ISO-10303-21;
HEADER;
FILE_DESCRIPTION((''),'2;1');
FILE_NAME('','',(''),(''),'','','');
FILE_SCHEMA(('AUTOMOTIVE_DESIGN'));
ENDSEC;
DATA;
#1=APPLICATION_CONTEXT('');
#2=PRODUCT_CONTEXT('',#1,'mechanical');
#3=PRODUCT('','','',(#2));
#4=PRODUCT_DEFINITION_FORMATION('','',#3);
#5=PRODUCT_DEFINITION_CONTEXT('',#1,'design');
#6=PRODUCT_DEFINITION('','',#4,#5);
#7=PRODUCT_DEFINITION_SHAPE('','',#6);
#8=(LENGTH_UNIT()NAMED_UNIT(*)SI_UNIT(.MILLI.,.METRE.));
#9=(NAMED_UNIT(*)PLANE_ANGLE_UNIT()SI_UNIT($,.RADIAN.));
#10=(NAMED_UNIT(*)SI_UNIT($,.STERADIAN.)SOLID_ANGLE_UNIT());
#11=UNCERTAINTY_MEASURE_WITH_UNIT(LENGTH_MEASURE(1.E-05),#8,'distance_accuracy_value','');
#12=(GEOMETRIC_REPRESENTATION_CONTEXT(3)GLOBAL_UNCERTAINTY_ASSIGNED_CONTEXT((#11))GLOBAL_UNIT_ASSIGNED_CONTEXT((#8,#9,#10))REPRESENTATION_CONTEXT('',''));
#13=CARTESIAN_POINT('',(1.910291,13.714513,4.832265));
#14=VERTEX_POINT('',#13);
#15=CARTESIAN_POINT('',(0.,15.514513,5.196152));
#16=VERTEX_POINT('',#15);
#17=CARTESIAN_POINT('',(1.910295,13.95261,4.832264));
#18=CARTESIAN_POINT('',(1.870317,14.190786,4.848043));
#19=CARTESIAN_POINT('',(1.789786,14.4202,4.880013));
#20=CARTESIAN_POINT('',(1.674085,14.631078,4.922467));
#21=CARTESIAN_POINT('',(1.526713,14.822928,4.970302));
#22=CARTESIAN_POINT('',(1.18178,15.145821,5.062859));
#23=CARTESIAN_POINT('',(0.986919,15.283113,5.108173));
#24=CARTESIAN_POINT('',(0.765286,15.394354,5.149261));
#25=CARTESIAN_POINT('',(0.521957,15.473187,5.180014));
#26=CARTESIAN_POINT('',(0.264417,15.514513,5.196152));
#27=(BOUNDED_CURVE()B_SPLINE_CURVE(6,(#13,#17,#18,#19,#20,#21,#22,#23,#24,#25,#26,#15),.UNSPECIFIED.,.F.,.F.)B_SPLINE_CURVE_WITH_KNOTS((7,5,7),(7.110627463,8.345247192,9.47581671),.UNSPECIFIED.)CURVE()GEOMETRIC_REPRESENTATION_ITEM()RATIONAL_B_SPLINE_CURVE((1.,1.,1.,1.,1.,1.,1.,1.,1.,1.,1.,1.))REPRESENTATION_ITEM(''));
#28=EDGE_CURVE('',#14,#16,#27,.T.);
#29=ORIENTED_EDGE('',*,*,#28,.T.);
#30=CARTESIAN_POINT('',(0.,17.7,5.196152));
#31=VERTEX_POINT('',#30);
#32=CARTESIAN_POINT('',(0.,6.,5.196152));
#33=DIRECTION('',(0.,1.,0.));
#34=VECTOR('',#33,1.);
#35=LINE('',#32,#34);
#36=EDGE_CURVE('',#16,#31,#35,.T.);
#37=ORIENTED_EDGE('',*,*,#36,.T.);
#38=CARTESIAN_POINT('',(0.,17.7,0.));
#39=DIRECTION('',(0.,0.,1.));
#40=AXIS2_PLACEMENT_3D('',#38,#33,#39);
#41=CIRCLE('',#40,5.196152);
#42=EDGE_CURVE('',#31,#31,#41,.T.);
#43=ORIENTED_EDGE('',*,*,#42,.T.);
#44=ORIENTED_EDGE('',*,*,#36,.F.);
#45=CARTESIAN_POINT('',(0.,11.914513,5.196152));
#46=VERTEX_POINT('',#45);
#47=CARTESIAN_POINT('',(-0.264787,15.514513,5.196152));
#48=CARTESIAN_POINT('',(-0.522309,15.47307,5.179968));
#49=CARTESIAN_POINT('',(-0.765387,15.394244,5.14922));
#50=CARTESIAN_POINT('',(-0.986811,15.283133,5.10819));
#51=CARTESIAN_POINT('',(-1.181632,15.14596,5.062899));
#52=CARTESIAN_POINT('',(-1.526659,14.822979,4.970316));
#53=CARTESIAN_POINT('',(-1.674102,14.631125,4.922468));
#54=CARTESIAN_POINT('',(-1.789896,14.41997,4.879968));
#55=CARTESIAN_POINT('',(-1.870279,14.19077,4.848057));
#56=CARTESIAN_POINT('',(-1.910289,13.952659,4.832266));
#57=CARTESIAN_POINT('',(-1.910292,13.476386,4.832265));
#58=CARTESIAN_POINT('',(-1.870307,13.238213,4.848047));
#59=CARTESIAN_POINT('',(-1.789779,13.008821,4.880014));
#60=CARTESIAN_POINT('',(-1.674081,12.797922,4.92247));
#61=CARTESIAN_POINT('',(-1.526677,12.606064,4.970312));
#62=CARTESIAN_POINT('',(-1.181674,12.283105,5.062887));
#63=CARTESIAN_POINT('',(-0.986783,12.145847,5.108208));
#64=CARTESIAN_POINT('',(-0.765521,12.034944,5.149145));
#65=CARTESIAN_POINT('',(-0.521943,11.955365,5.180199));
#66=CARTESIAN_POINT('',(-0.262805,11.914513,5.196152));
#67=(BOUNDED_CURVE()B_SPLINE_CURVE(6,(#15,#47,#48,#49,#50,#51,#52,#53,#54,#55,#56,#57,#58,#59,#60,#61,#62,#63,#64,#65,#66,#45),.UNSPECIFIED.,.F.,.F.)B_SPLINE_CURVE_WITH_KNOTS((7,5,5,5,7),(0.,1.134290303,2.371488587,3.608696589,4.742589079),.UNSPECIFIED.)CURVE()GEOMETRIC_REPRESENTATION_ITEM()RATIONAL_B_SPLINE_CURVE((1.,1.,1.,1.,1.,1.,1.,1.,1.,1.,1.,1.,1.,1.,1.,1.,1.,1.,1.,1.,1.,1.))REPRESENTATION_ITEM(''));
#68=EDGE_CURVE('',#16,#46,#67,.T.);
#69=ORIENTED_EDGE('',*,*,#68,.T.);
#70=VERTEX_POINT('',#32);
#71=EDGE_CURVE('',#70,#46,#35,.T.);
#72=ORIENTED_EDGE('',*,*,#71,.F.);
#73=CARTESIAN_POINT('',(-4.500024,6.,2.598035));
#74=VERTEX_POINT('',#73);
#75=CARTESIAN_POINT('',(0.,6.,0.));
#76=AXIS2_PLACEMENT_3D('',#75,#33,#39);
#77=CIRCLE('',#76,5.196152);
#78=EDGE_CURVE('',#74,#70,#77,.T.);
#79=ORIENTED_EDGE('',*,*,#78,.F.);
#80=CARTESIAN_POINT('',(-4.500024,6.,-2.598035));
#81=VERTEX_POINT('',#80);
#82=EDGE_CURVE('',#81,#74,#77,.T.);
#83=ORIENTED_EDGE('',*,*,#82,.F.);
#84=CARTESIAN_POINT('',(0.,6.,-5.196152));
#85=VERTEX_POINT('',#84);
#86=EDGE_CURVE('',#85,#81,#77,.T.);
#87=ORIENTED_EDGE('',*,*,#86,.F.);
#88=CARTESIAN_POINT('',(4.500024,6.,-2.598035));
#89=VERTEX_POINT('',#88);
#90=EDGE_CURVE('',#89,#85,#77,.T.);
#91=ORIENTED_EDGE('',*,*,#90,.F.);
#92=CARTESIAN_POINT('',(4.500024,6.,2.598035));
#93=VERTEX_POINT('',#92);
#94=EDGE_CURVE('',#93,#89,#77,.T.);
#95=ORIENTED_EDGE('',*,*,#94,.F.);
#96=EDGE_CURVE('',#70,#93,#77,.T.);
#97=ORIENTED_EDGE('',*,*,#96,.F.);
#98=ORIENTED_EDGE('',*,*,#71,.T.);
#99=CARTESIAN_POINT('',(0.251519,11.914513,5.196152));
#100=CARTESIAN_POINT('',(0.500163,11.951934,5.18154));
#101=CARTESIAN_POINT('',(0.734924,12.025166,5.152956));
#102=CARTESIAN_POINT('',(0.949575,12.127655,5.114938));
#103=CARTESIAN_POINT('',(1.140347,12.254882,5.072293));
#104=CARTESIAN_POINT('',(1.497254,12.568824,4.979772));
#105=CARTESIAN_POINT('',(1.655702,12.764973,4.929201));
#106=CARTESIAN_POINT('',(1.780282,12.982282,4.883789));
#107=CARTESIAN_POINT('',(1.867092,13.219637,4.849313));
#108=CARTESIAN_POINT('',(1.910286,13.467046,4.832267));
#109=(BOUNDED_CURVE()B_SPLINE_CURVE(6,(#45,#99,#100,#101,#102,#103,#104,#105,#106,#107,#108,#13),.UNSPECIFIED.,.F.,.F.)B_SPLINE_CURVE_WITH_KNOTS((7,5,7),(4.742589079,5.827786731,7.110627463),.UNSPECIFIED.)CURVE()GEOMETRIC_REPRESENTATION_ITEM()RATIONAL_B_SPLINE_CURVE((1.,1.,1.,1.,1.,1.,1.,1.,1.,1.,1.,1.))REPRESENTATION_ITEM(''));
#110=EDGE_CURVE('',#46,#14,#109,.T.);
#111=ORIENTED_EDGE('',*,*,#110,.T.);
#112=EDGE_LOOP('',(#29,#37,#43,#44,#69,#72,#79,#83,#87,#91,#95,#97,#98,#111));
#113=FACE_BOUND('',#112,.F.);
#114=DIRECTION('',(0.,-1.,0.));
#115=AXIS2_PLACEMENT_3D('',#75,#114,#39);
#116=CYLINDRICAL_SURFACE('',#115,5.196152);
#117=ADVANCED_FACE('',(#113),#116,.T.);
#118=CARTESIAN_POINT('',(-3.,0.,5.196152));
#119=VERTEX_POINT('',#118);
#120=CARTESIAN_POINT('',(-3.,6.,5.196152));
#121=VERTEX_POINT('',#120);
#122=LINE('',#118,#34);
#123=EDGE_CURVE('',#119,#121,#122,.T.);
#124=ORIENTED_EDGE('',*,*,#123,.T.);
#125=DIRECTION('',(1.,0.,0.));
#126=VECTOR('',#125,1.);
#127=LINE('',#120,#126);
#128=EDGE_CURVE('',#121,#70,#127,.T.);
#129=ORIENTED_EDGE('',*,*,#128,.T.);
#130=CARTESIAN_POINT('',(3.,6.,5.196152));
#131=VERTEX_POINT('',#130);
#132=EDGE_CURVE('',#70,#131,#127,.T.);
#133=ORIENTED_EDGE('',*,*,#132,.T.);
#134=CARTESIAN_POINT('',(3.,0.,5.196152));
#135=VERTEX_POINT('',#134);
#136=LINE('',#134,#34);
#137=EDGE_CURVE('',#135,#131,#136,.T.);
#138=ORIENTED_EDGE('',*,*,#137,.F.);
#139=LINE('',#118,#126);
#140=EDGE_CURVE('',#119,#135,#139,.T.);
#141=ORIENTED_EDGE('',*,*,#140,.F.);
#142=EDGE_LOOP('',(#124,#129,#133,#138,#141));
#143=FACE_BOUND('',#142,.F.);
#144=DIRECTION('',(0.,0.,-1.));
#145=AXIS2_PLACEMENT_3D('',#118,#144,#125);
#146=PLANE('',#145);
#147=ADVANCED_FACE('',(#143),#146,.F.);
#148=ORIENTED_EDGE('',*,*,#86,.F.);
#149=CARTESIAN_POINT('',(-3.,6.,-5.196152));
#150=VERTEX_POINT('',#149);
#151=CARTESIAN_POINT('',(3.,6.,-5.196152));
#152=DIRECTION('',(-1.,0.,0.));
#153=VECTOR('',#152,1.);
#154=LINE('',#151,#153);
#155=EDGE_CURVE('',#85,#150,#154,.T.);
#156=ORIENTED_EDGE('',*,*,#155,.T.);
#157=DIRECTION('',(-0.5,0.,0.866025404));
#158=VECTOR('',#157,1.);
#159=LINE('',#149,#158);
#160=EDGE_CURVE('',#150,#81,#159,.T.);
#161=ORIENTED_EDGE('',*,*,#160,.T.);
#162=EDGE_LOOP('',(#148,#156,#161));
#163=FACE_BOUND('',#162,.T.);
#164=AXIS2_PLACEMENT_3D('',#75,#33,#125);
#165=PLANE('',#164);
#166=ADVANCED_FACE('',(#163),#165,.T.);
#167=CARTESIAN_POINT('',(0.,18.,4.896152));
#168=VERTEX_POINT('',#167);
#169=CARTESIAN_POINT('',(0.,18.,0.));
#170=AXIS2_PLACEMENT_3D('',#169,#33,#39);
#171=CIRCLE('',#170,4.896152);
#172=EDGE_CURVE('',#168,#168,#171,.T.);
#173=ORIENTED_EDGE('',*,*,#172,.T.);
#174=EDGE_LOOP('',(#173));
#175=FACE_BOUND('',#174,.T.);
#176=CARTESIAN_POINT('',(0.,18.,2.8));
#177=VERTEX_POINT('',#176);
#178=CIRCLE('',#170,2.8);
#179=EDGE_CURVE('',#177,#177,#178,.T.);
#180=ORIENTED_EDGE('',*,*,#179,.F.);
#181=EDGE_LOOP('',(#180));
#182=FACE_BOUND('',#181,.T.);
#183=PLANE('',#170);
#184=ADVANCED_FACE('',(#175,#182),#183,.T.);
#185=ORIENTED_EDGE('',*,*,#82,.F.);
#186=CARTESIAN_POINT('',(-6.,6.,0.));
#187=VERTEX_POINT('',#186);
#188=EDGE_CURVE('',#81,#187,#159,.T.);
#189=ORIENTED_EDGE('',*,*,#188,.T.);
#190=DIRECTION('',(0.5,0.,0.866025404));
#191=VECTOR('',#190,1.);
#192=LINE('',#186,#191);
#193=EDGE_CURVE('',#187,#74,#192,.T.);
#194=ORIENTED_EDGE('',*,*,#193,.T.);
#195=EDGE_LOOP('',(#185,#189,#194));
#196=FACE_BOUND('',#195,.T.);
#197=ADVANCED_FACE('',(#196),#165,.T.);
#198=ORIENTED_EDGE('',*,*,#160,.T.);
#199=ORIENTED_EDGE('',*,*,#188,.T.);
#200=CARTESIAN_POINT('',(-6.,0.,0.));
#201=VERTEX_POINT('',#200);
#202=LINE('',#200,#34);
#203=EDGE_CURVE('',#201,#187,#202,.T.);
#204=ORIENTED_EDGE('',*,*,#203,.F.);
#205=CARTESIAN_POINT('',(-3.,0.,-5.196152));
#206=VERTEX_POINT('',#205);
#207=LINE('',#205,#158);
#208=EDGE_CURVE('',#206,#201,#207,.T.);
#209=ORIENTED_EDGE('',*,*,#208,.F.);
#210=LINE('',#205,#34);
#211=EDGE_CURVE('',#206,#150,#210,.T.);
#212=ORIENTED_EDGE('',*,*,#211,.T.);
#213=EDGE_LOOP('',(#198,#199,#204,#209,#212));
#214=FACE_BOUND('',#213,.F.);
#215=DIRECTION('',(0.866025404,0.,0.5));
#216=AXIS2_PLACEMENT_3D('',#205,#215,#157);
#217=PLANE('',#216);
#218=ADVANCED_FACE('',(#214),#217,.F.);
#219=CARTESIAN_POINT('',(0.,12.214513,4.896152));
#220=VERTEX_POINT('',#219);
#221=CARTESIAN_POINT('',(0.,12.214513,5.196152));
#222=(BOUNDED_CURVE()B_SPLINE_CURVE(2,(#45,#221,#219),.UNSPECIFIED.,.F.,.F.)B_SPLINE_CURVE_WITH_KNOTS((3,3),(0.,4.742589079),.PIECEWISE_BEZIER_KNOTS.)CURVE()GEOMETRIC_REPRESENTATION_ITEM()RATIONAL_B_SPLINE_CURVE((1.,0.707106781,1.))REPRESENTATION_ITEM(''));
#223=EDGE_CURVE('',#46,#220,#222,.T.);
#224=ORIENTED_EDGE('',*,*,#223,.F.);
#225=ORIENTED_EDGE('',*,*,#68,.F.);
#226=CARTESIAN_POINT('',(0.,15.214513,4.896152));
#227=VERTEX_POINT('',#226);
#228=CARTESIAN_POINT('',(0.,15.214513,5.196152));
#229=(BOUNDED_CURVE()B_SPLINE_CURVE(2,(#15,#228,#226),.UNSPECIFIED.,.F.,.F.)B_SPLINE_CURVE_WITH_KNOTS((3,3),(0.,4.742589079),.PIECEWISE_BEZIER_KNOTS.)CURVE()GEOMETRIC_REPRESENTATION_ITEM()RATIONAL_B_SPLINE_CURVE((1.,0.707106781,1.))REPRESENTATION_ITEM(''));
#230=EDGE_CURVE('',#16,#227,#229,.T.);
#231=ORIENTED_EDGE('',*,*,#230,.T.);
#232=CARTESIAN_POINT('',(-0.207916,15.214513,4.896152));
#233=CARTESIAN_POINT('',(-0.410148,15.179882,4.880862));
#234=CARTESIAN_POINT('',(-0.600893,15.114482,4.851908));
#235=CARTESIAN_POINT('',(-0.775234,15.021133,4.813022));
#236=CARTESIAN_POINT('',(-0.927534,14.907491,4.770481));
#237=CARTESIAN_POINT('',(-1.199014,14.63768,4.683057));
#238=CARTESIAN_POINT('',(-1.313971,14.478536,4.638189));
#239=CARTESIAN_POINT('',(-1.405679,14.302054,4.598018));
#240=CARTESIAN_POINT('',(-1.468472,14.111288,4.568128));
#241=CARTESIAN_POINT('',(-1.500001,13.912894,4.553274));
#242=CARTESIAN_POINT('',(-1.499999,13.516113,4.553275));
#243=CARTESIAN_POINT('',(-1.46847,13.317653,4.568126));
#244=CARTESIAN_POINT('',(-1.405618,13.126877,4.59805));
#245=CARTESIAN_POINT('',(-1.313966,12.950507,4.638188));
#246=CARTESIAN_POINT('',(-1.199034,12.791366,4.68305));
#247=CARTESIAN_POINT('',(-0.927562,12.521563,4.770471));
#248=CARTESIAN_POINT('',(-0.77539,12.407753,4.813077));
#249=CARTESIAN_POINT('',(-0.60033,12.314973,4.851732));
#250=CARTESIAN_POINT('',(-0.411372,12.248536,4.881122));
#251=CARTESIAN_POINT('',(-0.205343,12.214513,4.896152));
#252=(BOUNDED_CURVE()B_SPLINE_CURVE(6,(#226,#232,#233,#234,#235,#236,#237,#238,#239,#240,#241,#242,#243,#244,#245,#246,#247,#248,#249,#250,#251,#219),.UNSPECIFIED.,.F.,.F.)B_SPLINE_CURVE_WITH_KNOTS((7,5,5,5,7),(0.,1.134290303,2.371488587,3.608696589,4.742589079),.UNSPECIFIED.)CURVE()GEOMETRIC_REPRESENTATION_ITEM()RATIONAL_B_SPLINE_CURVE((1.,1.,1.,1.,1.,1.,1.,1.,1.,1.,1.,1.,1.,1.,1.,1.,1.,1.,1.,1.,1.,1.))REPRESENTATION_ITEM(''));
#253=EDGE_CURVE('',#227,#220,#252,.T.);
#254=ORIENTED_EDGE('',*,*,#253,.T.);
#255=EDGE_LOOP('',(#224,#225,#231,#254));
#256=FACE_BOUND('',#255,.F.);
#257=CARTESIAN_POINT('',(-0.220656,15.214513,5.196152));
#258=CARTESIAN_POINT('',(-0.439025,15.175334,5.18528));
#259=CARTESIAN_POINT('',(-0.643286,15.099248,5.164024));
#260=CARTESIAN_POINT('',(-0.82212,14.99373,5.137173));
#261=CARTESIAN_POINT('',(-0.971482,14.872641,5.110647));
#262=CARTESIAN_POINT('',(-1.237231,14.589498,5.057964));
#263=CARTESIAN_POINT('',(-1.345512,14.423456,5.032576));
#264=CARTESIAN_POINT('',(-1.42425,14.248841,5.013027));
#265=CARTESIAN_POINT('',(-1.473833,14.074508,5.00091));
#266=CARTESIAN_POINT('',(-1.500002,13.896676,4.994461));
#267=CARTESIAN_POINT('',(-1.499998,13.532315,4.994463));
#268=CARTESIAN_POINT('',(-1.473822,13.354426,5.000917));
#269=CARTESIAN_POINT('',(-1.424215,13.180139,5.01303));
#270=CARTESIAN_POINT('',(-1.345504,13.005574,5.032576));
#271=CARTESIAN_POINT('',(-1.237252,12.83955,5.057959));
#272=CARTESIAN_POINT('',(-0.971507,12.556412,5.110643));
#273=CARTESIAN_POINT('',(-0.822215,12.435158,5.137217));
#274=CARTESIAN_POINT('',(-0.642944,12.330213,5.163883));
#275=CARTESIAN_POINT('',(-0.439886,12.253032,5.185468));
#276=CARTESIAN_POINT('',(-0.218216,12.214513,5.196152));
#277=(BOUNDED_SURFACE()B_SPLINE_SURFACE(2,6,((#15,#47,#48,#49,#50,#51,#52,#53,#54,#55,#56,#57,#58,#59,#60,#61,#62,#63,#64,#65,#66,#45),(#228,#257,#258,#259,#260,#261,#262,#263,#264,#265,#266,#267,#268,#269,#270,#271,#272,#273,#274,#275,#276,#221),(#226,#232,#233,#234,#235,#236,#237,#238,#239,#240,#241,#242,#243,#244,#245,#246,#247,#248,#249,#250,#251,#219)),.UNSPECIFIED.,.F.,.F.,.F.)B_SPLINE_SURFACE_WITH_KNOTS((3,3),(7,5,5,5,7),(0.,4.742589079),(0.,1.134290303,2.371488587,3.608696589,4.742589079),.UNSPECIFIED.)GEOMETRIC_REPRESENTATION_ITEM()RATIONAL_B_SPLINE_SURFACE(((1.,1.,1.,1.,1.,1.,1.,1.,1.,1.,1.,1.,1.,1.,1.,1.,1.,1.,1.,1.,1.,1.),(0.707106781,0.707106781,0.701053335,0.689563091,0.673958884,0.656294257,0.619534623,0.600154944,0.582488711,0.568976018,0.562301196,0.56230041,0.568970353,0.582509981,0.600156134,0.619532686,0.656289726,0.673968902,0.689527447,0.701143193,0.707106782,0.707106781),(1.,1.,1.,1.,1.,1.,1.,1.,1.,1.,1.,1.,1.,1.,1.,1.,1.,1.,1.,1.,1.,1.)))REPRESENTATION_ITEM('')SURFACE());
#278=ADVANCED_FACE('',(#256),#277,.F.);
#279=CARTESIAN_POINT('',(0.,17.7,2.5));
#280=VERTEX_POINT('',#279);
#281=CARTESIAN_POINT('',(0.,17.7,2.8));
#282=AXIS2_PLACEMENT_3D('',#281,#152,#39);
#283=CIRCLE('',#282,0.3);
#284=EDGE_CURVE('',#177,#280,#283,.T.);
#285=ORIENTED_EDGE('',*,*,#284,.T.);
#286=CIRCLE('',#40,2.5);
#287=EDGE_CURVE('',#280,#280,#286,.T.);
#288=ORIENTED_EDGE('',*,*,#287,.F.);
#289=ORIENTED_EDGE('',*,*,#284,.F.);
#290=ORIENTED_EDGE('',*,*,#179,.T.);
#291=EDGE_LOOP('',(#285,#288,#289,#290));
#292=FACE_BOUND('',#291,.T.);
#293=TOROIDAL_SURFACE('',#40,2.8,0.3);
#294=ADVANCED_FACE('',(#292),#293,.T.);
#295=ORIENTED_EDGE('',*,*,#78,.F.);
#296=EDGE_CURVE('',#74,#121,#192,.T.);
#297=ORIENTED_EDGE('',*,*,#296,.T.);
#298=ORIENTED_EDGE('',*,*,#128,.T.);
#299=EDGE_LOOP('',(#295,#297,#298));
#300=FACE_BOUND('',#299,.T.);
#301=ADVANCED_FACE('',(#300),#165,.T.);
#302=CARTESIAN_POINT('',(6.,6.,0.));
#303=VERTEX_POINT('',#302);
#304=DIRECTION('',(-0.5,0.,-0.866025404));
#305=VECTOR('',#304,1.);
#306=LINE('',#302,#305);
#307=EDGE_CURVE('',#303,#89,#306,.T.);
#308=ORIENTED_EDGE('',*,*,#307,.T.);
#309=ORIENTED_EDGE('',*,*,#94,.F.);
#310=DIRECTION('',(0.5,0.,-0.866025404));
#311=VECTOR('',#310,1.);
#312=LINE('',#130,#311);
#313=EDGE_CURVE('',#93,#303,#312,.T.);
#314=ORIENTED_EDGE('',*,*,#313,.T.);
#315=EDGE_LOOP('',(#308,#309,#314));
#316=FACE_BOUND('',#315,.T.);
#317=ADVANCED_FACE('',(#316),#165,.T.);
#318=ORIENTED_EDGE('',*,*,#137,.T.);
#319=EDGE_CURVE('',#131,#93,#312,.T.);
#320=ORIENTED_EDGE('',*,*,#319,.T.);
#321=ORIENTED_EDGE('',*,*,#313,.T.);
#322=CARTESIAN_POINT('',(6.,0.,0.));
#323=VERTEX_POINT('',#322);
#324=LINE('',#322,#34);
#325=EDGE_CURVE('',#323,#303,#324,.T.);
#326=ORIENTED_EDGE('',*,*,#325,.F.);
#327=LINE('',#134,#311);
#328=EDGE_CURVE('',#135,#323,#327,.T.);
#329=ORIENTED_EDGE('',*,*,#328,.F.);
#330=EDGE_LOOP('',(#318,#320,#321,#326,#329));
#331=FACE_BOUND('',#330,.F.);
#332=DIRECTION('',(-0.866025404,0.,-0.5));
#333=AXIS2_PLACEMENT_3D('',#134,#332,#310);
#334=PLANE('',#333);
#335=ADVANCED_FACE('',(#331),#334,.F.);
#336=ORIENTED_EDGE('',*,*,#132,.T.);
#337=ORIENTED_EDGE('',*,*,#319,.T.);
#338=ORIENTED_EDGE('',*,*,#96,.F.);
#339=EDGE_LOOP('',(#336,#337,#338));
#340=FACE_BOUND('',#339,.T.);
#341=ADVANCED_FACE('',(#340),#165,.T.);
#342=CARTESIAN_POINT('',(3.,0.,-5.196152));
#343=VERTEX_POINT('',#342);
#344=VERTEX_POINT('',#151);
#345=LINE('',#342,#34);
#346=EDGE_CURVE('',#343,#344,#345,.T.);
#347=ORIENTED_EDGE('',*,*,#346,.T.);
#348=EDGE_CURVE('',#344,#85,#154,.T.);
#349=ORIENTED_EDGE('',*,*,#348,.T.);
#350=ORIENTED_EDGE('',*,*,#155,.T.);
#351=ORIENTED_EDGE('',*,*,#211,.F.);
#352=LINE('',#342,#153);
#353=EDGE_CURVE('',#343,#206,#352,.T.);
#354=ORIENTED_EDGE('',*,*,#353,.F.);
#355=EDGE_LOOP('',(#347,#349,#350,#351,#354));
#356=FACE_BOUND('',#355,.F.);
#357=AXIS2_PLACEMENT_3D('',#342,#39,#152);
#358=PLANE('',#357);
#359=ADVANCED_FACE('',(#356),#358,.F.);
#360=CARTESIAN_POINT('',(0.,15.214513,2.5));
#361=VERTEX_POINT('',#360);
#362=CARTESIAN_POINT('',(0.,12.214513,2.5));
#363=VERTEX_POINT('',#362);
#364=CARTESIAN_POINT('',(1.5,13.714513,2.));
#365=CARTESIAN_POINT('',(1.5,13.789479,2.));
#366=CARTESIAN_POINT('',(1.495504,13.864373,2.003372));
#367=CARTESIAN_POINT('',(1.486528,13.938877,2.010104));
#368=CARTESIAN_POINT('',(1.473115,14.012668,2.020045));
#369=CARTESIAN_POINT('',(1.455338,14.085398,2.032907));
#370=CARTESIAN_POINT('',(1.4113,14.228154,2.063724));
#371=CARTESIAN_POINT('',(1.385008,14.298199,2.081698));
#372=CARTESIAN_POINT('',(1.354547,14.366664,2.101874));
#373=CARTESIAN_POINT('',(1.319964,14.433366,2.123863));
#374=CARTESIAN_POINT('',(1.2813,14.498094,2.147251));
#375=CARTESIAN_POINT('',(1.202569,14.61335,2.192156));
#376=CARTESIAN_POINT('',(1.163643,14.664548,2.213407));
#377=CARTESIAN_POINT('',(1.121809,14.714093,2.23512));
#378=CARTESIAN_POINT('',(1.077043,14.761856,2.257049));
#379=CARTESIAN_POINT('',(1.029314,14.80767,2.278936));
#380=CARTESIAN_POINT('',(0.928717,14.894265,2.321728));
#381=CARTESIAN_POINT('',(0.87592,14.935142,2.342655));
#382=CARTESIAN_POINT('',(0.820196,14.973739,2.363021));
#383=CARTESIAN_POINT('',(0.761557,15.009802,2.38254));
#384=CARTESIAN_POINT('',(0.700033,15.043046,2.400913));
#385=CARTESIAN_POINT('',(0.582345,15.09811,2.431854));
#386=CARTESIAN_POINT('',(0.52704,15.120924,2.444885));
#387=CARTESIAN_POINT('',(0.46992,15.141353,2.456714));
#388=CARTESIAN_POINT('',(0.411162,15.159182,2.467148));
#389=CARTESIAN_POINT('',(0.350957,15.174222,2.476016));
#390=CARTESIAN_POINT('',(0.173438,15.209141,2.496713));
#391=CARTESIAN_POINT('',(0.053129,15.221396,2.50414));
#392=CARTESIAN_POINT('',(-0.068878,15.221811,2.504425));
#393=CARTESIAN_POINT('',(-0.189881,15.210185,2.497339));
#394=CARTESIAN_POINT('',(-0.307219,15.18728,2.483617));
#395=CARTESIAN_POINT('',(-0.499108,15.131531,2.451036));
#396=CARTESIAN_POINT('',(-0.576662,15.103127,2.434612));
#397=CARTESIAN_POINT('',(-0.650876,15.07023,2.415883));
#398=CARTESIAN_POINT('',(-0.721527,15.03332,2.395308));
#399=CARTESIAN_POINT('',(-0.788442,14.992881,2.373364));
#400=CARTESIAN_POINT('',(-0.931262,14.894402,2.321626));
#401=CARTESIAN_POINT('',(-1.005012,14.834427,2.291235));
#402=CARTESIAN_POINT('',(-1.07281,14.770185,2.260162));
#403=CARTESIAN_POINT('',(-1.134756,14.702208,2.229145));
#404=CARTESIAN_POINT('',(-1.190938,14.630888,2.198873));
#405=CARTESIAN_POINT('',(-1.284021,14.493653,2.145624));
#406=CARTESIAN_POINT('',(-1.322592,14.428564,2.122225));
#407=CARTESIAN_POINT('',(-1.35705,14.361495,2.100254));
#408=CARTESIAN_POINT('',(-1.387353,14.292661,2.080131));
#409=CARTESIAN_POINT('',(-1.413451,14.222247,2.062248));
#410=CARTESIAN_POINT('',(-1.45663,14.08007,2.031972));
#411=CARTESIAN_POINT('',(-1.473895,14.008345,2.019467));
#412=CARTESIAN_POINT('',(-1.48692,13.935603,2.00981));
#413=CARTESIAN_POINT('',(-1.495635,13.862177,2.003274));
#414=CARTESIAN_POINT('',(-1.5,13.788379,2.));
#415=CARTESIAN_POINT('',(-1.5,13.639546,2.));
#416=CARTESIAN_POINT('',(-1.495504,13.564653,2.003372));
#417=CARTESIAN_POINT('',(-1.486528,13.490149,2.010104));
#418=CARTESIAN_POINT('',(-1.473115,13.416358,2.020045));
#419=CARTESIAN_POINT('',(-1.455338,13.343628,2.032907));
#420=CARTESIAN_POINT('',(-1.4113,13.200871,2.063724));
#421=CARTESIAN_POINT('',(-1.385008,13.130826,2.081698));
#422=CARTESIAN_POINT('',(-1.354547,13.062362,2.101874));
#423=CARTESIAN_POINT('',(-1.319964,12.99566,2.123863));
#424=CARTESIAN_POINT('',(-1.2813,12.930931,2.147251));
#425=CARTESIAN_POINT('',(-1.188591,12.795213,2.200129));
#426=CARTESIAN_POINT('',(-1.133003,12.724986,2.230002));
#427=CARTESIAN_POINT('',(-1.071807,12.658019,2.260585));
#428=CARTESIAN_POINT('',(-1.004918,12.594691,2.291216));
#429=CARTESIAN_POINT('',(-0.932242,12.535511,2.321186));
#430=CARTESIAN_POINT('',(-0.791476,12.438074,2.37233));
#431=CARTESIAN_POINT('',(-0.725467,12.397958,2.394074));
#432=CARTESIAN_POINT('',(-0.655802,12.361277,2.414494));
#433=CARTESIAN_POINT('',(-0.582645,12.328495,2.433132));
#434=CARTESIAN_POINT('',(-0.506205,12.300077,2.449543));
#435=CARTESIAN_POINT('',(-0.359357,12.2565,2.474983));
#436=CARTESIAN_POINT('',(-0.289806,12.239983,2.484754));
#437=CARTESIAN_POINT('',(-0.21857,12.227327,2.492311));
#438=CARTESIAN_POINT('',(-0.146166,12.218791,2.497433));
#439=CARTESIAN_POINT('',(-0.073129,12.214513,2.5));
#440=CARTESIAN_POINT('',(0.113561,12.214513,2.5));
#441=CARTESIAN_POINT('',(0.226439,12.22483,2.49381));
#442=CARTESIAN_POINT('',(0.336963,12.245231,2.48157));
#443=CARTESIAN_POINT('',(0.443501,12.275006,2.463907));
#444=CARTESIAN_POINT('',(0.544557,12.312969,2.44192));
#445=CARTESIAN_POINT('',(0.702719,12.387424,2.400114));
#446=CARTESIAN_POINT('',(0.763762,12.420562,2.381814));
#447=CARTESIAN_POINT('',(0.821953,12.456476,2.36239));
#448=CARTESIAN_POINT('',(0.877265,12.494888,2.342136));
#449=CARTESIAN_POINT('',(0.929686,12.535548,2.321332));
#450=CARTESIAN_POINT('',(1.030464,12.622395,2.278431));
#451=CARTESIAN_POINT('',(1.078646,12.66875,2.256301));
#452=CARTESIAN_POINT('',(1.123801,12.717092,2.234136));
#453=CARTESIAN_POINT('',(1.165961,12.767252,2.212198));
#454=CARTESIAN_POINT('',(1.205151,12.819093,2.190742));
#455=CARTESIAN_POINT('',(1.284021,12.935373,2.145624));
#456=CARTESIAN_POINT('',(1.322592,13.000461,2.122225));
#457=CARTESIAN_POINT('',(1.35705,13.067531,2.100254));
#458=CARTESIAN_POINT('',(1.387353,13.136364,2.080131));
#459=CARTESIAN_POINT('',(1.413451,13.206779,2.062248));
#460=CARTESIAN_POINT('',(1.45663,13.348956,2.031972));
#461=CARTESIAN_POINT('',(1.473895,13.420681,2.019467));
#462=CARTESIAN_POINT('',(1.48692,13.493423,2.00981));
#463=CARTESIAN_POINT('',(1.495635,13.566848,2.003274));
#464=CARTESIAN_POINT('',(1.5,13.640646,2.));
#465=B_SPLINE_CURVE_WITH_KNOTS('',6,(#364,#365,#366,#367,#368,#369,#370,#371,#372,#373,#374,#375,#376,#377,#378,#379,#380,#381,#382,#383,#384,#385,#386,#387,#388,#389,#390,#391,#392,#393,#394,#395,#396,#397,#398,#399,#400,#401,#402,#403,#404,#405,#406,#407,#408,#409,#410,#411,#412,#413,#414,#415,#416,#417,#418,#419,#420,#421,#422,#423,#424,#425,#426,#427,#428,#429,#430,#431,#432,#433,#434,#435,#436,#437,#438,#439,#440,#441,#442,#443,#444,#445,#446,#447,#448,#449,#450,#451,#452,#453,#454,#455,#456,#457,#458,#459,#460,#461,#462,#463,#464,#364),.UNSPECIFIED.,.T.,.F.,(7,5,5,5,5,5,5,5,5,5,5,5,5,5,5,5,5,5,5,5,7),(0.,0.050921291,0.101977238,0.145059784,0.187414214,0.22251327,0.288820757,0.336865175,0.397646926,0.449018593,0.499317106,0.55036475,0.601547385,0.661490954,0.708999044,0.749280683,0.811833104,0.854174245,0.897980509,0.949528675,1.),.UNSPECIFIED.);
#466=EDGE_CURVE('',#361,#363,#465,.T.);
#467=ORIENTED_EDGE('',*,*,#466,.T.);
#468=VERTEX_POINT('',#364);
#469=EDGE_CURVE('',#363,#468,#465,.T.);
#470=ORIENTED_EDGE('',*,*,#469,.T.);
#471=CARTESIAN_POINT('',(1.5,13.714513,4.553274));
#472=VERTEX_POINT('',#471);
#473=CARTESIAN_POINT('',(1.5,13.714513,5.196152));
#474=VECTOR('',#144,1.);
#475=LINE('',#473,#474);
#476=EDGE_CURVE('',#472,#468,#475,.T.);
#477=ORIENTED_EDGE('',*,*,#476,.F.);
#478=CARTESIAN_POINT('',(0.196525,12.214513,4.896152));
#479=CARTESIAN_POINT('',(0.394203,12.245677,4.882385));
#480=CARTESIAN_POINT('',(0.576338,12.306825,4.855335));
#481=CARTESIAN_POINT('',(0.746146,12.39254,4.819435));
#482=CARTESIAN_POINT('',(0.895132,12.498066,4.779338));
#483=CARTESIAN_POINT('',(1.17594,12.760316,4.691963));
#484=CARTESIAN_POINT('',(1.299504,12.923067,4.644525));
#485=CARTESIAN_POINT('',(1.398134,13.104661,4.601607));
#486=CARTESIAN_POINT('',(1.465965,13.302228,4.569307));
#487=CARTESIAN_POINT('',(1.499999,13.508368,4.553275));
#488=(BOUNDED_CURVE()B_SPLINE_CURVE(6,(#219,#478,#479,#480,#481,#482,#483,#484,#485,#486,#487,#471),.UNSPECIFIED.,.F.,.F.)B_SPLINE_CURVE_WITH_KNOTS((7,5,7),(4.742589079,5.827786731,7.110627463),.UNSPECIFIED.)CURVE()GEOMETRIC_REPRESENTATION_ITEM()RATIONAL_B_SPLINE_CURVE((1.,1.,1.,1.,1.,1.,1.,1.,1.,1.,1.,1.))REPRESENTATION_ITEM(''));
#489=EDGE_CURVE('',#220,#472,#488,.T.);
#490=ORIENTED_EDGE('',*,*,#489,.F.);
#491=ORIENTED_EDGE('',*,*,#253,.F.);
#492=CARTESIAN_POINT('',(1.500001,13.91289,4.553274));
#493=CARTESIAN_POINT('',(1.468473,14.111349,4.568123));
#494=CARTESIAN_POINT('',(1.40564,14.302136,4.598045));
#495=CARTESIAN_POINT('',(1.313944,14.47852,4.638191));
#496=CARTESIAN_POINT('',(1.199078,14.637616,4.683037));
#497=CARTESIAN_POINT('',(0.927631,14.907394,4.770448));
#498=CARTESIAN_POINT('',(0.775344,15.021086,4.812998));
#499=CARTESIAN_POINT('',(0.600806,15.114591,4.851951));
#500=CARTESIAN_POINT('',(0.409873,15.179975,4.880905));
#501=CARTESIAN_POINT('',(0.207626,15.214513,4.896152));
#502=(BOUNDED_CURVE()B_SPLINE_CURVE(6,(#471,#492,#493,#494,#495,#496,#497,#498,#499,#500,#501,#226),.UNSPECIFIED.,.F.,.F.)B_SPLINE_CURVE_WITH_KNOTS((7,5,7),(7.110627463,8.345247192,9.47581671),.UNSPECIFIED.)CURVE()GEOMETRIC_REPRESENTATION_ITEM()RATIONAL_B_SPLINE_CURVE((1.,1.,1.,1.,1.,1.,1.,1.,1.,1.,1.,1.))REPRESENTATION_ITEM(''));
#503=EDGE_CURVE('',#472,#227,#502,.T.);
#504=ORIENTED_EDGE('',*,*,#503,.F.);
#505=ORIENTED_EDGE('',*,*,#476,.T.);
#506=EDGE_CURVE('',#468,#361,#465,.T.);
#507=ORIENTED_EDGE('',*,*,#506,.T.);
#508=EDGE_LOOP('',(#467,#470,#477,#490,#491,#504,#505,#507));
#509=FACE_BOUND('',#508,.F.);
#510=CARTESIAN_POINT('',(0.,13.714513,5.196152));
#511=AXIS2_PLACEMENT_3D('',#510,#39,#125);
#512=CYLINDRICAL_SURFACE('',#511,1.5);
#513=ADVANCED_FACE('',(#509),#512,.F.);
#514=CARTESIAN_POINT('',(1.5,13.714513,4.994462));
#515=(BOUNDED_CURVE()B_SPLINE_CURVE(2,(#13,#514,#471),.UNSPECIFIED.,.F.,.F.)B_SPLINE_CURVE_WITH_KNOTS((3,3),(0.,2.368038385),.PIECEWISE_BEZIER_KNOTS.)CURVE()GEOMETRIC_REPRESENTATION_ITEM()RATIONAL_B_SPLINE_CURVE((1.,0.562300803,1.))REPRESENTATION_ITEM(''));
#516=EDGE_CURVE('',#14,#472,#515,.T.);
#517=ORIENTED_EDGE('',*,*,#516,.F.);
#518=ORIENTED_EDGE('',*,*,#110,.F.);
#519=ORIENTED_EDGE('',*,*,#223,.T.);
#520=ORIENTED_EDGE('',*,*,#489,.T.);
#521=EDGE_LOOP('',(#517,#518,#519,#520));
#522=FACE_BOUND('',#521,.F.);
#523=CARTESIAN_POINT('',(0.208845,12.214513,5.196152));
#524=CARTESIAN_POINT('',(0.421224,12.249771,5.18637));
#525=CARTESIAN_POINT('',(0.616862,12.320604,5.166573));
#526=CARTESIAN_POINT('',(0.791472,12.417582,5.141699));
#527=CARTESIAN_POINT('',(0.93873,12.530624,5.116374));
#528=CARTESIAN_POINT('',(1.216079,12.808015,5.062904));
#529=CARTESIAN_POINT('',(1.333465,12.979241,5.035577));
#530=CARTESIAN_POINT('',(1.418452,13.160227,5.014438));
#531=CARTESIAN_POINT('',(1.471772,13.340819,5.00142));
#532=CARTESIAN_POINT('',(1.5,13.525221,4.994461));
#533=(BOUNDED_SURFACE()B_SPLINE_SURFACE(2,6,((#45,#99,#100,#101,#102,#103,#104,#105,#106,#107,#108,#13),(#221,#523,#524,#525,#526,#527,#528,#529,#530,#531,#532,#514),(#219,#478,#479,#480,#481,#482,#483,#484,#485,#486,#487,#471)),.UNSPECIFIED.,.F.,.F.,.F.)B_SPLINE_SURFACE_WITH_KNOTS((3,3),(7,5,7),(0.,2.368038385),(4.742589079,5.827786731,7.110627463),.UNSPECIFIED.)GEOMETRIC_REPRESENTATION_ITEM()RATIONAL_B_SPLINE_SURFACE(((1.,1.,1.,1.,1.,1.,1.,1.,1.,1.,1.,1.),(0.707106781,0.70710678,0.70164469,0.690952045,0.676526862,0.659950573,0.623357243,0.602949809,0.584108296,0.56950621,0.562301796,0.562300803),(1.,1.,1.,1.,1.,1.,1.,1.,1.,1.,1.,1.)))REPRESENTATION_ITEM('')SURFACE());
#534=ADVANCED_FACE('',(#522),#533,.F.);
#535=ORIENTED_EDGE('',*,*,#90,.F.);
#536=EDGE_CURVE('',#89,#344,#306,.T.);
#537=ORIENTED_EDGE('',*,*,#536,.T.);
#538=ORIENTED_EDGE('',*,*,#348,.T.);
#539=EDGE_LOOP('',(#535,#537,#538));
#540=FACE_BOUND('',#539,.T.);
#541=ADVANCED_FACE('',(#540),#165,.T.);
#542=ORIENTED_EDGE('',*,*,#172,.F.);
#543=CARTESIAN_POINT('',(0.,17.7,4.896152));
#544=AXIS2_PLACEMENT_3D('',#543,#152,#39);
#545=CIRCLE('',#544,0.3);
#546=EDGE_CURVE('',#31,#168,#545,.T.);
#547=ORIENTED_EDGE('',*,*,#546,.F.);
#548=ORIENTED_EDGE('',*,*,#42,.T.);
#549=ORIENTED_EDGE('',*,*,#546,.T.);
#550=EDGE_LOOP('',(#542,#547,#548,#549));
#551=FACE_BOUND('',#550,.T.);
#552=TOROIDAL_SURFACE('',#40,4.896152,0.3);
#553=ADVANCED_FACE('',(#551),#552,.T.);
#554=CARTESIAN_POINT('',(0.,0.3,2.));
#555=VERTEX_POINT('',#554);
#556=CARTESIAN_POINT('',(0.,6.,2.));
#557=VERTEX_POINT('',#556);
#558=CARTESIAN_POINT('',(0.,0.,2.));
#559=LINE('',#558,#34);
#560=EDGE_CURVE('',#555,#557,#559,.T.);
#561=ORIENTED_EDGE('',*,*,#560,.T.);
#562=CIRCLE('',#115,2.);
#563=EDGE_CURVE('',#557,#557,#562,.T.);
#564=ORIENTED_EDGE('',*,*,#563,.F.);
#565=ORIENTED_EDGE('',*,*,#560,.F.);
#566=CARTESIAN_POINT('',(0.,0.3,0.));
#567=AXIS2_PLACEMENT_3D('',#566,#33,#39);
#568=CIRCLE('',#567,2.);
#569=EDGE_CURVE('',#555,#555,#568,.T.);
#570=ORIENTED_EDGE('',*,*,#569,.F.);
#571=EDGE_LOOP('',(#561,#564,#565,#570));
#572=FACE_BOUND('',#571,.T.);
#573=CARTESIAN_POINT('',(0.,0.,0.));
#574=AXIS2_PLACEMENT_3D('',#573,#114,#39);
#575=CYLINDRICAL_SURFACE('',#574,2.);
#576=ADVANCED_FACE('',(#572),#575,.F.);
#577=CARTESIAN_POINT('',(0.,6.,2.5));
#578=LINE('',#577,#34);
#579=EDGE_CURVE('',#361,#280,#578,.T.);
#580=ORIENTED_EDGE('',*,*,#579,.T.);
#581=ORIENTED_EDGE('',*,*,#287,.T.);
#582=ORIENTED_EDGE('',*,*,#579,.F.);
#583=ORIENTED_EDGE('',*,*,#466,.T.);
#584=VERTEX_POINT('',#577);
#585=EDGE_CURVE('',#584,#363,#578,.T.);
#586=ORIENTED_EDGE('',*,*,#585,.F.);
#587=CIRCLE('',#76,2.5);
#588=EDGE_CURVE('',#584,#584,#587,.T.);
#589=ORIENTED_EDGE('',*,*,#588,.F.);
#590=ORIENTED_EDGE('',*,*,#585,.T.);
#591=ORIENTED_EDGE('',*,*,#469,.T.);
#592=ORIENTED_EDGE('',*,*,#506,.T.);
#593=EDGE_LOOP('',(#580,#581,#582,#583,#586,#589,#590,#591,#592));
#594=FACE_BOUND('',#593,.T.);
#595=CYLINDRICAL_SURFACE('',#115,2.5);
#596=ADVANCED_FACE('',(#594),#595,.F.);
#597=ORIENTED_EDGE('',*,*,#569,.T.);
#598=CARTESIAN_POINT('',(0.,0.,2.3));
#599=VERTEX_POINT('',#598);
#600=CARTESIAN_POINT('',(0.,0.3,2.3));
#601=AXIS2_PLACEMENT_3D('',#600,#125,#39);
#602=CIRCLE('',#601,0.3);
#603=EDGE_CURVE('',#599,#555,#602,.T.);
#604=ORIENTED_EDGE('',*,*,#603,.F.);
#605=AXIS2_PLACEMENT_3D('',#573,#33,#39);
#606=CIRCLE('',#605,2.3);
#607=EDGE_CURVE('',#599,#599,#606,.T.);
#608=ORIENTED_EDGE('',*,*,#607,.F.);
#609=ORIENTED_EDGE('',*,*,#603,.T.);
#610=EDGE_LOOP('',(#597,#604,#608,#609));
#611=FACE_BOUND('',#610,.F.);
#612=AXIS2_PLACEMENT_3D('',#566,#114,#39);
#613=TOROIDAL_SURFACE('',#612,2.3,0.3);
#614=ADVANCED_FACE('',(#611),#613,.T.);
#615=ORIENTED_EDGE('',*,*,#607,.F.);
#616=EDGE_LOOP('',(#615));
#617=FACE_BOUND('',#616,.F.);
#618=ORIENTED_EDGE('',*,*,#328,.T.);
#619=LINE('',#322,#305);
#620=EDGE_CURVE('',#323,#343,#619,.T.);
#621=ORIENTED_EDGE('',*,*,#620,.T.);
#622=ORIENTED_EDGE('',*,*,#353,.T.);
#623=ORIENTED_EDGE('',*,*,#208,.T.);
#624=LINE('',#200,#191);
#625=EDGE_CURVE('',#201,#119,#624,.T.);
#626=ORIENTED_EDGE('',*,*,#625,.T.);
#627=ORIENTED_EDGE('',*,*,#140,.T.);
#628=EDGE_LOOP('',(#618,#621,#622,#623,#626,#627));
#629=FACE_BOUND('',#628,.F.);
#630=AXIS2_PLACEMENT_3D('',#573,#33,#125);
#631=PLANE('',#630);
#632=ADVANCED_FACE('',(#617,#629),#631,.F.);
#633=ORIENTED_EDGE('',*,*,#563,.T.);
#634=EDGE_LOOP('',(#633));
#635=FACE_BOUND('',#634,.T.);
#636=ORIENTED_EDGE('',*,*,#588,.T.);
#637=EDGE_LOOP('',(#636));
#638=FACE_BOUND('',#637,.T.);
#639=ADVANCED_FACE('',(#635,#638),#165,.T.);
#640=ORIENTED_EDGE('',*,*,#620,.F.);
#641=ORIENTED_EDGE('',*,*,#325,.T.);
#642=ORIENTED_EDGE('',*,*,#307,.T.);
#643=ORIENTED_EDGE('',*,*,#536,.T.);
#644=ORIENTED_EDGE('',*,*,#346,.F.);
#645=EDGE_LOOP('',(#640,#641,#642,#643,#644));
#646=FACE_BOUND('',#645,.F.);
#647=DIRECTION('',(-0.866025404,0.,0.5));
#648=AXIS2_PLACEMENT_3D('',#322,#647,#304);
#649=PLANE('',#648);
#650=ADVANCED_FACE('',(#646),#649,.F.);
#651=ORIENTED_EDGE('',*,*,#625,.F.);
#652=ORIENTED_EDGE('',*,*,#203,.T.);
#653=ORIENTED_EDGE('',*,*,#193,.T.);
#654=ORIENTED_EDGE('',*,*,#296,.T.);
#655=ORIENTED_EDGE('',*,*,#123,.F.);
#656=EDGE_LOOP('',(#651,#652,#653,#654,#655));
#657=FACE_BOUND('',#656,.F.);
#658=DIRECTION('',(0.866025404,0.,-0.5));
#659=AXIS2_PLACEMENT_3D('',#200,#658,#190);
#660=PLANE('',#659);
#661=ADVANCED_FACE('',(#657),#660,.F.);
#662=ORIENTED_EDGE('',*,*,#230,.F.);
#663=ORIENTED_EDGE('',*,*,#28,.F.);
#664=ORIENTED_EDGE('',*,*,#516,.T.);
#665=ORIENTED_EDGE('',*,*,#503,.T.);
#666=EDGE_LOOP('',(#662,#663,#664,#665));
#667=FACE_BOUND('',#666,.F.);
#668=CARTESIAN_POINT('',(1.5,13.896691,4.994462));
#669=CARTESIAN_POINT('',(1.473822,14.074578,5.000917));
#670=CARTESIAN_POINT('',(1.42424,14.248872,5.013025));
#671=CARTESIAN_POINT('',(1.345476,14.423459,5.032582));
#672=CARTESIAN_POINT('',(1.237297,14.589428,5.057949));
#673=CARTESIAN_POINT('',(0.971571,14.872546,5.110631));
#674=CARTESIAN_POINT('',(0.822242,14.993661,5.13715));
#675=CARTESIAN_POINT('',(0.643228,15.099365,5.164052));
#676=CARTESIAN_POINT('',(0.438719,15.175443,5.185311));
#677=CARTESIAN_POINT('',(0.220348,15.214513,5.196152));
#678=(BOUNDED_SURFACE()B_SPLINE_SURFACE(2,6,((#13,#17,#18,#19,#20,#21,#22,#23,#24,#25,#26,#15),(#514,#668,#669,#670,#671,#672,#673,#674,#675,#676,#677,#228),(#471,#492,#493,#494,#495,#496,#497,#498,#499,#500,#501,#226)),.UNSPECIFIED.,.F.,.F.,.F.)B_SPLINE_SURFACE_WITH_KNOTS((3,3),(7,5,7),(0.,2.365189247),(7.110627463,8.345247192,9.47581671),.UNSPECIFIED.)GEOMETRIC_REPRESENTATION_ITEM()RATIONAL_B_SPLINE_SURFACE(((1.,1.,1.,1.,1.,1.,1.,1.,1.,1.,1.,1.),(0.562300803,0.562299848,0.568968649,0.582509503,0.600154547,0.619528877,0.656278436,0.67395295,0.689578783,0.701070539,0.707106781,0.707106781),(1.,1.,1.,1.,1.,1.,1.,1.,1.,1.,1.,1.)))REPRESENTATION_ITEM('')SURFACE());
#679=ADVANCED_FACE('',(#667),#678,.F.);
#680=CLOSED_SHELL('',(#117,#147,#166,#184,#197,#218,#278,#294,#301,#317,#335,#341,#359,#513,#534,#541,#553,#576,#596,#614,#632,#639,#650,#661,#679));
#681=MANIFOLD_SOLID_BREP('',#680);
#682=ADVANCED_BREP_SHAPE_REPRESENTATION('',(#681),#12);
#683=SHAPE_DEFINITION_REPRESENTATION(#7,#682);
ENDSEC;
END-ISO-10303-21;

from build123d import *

# Parameters (mm, degrees)
BOSS_EXTRUDE2_DEPTH     = 6
SKETCH3_R               = 5.196152423
SKETCH3_R_2             = 2.5
BOSS_EXTRUDE4_DEPTH     = 12
CUT_EXTRUDE2_REACH      = 21.672
SKETCH1_4_R             = 2
CUT_EXTRUDE3_REACH      = 23.633
CUT_EXTRUDE3_END_RADIUS = 2.5
SKETCH4_R               = 1.5
FILLET3_R               = 0.3


with BuildPart() as part:
    # Sketch1 → Boss-Extrude2 (new body)
    with BuildSketch(Plane(origin=(0, 0, 0), x_dir=(1, 0, 0), z_dir=(0, 1, 0))):
        Polygon((-3, 5.196152423), (-6, 0), (-3, -5.196152423), (3, -5.196152423), (6, 0), (3, 5.196152423), align=None)
    extrude(amount=BOSS_EXTRUDE2_DEPTH)

    # Sketch3 → Boss-Extrude4 (add)
    with BuildSketch(Plane(origin=(0, 6, 0), x_dir=(1, 0, 0), z_dir=(0, 1, 0))):
        with Locations(Location((0, 0, 0), (0, 0, 270))):
            Circle(SKETCH3_R)
        with Locations(Location((0, 0, 0), (0, 0, 270))):
            Circle(SKETCH3_R_2, mode=Mode.SUBTRACT)
    extrude(amount=BOSS_EXTRUDE4_DEPTH)

    # Sketch1<4> → Cut-Extrude2 (cut, up to next)
    with BuildSketch(Plane(origin=(0, 0, 0), x_dir=(1, 0, 0), z_dir=(0, 1, 0)), mode=Mode.PRIVATE) as cut_extrude2_sk1:
        with Locations(Location((0, 0, 0), (0, 0, 270))):
            Circle(SKETCH1_4_R)
    cut_extrude2_tool1 = extrude(cut_extrude2_sk1.sketch, amount=CUT_EXTRUDE2_REACH, mode=Mode.PRIVATE) & part.part
    add(cut_extrude2_tool1.solids().sort_by_distance((0, 0, 0))[0], mode=Mode.SUBTRACT)

    # Cut-Extrude3: up to this cylinder (the profile starts outside it)
    cut_extrude3_end = Plane(origin=(0, 13.714513, 0), z_dir=(0, -1, 0)) * Cylinder(CUT_EXTRUDE3_END_RADIUS, 53.266, mode=Mode.PRIVATE)
    # Sketch4 → Cut-Extrude3 (cut, up to the surface)
    with BuildSketch(Plane.XY.offset(5.196152423), mode=Mode.PRIVATE) as cut_extrude3_sk1:
        with Locations((0, 13.714512782)):
            Circle(SKETCH4_R)
    cut_extrude3_tool1 = extrude(cut_extrude3_sk1.sketch, amount=-CUT_EXTRUDE3_REACH, mode=Mode.PRIVATE) - cut_extrude3_end
    add(cut_extrude3_tool1.solids().sort_by_distance((0, 13.714513, 5.196152))[0], mode=Mode.SUBTRACT)

    # Fillet3
    fillet3_edges = [part.edges().sort_by_distance(p)[0] for p in [
        (0, 18, -5.196152423),
        (0, 18, -2.5),
        (0, 0, -2),
        (-1.5, 13.714512782, 4.974937186),
    ]]
    fillet(fillet3_edges, radius=FILLET3_R)


solid = part.part
